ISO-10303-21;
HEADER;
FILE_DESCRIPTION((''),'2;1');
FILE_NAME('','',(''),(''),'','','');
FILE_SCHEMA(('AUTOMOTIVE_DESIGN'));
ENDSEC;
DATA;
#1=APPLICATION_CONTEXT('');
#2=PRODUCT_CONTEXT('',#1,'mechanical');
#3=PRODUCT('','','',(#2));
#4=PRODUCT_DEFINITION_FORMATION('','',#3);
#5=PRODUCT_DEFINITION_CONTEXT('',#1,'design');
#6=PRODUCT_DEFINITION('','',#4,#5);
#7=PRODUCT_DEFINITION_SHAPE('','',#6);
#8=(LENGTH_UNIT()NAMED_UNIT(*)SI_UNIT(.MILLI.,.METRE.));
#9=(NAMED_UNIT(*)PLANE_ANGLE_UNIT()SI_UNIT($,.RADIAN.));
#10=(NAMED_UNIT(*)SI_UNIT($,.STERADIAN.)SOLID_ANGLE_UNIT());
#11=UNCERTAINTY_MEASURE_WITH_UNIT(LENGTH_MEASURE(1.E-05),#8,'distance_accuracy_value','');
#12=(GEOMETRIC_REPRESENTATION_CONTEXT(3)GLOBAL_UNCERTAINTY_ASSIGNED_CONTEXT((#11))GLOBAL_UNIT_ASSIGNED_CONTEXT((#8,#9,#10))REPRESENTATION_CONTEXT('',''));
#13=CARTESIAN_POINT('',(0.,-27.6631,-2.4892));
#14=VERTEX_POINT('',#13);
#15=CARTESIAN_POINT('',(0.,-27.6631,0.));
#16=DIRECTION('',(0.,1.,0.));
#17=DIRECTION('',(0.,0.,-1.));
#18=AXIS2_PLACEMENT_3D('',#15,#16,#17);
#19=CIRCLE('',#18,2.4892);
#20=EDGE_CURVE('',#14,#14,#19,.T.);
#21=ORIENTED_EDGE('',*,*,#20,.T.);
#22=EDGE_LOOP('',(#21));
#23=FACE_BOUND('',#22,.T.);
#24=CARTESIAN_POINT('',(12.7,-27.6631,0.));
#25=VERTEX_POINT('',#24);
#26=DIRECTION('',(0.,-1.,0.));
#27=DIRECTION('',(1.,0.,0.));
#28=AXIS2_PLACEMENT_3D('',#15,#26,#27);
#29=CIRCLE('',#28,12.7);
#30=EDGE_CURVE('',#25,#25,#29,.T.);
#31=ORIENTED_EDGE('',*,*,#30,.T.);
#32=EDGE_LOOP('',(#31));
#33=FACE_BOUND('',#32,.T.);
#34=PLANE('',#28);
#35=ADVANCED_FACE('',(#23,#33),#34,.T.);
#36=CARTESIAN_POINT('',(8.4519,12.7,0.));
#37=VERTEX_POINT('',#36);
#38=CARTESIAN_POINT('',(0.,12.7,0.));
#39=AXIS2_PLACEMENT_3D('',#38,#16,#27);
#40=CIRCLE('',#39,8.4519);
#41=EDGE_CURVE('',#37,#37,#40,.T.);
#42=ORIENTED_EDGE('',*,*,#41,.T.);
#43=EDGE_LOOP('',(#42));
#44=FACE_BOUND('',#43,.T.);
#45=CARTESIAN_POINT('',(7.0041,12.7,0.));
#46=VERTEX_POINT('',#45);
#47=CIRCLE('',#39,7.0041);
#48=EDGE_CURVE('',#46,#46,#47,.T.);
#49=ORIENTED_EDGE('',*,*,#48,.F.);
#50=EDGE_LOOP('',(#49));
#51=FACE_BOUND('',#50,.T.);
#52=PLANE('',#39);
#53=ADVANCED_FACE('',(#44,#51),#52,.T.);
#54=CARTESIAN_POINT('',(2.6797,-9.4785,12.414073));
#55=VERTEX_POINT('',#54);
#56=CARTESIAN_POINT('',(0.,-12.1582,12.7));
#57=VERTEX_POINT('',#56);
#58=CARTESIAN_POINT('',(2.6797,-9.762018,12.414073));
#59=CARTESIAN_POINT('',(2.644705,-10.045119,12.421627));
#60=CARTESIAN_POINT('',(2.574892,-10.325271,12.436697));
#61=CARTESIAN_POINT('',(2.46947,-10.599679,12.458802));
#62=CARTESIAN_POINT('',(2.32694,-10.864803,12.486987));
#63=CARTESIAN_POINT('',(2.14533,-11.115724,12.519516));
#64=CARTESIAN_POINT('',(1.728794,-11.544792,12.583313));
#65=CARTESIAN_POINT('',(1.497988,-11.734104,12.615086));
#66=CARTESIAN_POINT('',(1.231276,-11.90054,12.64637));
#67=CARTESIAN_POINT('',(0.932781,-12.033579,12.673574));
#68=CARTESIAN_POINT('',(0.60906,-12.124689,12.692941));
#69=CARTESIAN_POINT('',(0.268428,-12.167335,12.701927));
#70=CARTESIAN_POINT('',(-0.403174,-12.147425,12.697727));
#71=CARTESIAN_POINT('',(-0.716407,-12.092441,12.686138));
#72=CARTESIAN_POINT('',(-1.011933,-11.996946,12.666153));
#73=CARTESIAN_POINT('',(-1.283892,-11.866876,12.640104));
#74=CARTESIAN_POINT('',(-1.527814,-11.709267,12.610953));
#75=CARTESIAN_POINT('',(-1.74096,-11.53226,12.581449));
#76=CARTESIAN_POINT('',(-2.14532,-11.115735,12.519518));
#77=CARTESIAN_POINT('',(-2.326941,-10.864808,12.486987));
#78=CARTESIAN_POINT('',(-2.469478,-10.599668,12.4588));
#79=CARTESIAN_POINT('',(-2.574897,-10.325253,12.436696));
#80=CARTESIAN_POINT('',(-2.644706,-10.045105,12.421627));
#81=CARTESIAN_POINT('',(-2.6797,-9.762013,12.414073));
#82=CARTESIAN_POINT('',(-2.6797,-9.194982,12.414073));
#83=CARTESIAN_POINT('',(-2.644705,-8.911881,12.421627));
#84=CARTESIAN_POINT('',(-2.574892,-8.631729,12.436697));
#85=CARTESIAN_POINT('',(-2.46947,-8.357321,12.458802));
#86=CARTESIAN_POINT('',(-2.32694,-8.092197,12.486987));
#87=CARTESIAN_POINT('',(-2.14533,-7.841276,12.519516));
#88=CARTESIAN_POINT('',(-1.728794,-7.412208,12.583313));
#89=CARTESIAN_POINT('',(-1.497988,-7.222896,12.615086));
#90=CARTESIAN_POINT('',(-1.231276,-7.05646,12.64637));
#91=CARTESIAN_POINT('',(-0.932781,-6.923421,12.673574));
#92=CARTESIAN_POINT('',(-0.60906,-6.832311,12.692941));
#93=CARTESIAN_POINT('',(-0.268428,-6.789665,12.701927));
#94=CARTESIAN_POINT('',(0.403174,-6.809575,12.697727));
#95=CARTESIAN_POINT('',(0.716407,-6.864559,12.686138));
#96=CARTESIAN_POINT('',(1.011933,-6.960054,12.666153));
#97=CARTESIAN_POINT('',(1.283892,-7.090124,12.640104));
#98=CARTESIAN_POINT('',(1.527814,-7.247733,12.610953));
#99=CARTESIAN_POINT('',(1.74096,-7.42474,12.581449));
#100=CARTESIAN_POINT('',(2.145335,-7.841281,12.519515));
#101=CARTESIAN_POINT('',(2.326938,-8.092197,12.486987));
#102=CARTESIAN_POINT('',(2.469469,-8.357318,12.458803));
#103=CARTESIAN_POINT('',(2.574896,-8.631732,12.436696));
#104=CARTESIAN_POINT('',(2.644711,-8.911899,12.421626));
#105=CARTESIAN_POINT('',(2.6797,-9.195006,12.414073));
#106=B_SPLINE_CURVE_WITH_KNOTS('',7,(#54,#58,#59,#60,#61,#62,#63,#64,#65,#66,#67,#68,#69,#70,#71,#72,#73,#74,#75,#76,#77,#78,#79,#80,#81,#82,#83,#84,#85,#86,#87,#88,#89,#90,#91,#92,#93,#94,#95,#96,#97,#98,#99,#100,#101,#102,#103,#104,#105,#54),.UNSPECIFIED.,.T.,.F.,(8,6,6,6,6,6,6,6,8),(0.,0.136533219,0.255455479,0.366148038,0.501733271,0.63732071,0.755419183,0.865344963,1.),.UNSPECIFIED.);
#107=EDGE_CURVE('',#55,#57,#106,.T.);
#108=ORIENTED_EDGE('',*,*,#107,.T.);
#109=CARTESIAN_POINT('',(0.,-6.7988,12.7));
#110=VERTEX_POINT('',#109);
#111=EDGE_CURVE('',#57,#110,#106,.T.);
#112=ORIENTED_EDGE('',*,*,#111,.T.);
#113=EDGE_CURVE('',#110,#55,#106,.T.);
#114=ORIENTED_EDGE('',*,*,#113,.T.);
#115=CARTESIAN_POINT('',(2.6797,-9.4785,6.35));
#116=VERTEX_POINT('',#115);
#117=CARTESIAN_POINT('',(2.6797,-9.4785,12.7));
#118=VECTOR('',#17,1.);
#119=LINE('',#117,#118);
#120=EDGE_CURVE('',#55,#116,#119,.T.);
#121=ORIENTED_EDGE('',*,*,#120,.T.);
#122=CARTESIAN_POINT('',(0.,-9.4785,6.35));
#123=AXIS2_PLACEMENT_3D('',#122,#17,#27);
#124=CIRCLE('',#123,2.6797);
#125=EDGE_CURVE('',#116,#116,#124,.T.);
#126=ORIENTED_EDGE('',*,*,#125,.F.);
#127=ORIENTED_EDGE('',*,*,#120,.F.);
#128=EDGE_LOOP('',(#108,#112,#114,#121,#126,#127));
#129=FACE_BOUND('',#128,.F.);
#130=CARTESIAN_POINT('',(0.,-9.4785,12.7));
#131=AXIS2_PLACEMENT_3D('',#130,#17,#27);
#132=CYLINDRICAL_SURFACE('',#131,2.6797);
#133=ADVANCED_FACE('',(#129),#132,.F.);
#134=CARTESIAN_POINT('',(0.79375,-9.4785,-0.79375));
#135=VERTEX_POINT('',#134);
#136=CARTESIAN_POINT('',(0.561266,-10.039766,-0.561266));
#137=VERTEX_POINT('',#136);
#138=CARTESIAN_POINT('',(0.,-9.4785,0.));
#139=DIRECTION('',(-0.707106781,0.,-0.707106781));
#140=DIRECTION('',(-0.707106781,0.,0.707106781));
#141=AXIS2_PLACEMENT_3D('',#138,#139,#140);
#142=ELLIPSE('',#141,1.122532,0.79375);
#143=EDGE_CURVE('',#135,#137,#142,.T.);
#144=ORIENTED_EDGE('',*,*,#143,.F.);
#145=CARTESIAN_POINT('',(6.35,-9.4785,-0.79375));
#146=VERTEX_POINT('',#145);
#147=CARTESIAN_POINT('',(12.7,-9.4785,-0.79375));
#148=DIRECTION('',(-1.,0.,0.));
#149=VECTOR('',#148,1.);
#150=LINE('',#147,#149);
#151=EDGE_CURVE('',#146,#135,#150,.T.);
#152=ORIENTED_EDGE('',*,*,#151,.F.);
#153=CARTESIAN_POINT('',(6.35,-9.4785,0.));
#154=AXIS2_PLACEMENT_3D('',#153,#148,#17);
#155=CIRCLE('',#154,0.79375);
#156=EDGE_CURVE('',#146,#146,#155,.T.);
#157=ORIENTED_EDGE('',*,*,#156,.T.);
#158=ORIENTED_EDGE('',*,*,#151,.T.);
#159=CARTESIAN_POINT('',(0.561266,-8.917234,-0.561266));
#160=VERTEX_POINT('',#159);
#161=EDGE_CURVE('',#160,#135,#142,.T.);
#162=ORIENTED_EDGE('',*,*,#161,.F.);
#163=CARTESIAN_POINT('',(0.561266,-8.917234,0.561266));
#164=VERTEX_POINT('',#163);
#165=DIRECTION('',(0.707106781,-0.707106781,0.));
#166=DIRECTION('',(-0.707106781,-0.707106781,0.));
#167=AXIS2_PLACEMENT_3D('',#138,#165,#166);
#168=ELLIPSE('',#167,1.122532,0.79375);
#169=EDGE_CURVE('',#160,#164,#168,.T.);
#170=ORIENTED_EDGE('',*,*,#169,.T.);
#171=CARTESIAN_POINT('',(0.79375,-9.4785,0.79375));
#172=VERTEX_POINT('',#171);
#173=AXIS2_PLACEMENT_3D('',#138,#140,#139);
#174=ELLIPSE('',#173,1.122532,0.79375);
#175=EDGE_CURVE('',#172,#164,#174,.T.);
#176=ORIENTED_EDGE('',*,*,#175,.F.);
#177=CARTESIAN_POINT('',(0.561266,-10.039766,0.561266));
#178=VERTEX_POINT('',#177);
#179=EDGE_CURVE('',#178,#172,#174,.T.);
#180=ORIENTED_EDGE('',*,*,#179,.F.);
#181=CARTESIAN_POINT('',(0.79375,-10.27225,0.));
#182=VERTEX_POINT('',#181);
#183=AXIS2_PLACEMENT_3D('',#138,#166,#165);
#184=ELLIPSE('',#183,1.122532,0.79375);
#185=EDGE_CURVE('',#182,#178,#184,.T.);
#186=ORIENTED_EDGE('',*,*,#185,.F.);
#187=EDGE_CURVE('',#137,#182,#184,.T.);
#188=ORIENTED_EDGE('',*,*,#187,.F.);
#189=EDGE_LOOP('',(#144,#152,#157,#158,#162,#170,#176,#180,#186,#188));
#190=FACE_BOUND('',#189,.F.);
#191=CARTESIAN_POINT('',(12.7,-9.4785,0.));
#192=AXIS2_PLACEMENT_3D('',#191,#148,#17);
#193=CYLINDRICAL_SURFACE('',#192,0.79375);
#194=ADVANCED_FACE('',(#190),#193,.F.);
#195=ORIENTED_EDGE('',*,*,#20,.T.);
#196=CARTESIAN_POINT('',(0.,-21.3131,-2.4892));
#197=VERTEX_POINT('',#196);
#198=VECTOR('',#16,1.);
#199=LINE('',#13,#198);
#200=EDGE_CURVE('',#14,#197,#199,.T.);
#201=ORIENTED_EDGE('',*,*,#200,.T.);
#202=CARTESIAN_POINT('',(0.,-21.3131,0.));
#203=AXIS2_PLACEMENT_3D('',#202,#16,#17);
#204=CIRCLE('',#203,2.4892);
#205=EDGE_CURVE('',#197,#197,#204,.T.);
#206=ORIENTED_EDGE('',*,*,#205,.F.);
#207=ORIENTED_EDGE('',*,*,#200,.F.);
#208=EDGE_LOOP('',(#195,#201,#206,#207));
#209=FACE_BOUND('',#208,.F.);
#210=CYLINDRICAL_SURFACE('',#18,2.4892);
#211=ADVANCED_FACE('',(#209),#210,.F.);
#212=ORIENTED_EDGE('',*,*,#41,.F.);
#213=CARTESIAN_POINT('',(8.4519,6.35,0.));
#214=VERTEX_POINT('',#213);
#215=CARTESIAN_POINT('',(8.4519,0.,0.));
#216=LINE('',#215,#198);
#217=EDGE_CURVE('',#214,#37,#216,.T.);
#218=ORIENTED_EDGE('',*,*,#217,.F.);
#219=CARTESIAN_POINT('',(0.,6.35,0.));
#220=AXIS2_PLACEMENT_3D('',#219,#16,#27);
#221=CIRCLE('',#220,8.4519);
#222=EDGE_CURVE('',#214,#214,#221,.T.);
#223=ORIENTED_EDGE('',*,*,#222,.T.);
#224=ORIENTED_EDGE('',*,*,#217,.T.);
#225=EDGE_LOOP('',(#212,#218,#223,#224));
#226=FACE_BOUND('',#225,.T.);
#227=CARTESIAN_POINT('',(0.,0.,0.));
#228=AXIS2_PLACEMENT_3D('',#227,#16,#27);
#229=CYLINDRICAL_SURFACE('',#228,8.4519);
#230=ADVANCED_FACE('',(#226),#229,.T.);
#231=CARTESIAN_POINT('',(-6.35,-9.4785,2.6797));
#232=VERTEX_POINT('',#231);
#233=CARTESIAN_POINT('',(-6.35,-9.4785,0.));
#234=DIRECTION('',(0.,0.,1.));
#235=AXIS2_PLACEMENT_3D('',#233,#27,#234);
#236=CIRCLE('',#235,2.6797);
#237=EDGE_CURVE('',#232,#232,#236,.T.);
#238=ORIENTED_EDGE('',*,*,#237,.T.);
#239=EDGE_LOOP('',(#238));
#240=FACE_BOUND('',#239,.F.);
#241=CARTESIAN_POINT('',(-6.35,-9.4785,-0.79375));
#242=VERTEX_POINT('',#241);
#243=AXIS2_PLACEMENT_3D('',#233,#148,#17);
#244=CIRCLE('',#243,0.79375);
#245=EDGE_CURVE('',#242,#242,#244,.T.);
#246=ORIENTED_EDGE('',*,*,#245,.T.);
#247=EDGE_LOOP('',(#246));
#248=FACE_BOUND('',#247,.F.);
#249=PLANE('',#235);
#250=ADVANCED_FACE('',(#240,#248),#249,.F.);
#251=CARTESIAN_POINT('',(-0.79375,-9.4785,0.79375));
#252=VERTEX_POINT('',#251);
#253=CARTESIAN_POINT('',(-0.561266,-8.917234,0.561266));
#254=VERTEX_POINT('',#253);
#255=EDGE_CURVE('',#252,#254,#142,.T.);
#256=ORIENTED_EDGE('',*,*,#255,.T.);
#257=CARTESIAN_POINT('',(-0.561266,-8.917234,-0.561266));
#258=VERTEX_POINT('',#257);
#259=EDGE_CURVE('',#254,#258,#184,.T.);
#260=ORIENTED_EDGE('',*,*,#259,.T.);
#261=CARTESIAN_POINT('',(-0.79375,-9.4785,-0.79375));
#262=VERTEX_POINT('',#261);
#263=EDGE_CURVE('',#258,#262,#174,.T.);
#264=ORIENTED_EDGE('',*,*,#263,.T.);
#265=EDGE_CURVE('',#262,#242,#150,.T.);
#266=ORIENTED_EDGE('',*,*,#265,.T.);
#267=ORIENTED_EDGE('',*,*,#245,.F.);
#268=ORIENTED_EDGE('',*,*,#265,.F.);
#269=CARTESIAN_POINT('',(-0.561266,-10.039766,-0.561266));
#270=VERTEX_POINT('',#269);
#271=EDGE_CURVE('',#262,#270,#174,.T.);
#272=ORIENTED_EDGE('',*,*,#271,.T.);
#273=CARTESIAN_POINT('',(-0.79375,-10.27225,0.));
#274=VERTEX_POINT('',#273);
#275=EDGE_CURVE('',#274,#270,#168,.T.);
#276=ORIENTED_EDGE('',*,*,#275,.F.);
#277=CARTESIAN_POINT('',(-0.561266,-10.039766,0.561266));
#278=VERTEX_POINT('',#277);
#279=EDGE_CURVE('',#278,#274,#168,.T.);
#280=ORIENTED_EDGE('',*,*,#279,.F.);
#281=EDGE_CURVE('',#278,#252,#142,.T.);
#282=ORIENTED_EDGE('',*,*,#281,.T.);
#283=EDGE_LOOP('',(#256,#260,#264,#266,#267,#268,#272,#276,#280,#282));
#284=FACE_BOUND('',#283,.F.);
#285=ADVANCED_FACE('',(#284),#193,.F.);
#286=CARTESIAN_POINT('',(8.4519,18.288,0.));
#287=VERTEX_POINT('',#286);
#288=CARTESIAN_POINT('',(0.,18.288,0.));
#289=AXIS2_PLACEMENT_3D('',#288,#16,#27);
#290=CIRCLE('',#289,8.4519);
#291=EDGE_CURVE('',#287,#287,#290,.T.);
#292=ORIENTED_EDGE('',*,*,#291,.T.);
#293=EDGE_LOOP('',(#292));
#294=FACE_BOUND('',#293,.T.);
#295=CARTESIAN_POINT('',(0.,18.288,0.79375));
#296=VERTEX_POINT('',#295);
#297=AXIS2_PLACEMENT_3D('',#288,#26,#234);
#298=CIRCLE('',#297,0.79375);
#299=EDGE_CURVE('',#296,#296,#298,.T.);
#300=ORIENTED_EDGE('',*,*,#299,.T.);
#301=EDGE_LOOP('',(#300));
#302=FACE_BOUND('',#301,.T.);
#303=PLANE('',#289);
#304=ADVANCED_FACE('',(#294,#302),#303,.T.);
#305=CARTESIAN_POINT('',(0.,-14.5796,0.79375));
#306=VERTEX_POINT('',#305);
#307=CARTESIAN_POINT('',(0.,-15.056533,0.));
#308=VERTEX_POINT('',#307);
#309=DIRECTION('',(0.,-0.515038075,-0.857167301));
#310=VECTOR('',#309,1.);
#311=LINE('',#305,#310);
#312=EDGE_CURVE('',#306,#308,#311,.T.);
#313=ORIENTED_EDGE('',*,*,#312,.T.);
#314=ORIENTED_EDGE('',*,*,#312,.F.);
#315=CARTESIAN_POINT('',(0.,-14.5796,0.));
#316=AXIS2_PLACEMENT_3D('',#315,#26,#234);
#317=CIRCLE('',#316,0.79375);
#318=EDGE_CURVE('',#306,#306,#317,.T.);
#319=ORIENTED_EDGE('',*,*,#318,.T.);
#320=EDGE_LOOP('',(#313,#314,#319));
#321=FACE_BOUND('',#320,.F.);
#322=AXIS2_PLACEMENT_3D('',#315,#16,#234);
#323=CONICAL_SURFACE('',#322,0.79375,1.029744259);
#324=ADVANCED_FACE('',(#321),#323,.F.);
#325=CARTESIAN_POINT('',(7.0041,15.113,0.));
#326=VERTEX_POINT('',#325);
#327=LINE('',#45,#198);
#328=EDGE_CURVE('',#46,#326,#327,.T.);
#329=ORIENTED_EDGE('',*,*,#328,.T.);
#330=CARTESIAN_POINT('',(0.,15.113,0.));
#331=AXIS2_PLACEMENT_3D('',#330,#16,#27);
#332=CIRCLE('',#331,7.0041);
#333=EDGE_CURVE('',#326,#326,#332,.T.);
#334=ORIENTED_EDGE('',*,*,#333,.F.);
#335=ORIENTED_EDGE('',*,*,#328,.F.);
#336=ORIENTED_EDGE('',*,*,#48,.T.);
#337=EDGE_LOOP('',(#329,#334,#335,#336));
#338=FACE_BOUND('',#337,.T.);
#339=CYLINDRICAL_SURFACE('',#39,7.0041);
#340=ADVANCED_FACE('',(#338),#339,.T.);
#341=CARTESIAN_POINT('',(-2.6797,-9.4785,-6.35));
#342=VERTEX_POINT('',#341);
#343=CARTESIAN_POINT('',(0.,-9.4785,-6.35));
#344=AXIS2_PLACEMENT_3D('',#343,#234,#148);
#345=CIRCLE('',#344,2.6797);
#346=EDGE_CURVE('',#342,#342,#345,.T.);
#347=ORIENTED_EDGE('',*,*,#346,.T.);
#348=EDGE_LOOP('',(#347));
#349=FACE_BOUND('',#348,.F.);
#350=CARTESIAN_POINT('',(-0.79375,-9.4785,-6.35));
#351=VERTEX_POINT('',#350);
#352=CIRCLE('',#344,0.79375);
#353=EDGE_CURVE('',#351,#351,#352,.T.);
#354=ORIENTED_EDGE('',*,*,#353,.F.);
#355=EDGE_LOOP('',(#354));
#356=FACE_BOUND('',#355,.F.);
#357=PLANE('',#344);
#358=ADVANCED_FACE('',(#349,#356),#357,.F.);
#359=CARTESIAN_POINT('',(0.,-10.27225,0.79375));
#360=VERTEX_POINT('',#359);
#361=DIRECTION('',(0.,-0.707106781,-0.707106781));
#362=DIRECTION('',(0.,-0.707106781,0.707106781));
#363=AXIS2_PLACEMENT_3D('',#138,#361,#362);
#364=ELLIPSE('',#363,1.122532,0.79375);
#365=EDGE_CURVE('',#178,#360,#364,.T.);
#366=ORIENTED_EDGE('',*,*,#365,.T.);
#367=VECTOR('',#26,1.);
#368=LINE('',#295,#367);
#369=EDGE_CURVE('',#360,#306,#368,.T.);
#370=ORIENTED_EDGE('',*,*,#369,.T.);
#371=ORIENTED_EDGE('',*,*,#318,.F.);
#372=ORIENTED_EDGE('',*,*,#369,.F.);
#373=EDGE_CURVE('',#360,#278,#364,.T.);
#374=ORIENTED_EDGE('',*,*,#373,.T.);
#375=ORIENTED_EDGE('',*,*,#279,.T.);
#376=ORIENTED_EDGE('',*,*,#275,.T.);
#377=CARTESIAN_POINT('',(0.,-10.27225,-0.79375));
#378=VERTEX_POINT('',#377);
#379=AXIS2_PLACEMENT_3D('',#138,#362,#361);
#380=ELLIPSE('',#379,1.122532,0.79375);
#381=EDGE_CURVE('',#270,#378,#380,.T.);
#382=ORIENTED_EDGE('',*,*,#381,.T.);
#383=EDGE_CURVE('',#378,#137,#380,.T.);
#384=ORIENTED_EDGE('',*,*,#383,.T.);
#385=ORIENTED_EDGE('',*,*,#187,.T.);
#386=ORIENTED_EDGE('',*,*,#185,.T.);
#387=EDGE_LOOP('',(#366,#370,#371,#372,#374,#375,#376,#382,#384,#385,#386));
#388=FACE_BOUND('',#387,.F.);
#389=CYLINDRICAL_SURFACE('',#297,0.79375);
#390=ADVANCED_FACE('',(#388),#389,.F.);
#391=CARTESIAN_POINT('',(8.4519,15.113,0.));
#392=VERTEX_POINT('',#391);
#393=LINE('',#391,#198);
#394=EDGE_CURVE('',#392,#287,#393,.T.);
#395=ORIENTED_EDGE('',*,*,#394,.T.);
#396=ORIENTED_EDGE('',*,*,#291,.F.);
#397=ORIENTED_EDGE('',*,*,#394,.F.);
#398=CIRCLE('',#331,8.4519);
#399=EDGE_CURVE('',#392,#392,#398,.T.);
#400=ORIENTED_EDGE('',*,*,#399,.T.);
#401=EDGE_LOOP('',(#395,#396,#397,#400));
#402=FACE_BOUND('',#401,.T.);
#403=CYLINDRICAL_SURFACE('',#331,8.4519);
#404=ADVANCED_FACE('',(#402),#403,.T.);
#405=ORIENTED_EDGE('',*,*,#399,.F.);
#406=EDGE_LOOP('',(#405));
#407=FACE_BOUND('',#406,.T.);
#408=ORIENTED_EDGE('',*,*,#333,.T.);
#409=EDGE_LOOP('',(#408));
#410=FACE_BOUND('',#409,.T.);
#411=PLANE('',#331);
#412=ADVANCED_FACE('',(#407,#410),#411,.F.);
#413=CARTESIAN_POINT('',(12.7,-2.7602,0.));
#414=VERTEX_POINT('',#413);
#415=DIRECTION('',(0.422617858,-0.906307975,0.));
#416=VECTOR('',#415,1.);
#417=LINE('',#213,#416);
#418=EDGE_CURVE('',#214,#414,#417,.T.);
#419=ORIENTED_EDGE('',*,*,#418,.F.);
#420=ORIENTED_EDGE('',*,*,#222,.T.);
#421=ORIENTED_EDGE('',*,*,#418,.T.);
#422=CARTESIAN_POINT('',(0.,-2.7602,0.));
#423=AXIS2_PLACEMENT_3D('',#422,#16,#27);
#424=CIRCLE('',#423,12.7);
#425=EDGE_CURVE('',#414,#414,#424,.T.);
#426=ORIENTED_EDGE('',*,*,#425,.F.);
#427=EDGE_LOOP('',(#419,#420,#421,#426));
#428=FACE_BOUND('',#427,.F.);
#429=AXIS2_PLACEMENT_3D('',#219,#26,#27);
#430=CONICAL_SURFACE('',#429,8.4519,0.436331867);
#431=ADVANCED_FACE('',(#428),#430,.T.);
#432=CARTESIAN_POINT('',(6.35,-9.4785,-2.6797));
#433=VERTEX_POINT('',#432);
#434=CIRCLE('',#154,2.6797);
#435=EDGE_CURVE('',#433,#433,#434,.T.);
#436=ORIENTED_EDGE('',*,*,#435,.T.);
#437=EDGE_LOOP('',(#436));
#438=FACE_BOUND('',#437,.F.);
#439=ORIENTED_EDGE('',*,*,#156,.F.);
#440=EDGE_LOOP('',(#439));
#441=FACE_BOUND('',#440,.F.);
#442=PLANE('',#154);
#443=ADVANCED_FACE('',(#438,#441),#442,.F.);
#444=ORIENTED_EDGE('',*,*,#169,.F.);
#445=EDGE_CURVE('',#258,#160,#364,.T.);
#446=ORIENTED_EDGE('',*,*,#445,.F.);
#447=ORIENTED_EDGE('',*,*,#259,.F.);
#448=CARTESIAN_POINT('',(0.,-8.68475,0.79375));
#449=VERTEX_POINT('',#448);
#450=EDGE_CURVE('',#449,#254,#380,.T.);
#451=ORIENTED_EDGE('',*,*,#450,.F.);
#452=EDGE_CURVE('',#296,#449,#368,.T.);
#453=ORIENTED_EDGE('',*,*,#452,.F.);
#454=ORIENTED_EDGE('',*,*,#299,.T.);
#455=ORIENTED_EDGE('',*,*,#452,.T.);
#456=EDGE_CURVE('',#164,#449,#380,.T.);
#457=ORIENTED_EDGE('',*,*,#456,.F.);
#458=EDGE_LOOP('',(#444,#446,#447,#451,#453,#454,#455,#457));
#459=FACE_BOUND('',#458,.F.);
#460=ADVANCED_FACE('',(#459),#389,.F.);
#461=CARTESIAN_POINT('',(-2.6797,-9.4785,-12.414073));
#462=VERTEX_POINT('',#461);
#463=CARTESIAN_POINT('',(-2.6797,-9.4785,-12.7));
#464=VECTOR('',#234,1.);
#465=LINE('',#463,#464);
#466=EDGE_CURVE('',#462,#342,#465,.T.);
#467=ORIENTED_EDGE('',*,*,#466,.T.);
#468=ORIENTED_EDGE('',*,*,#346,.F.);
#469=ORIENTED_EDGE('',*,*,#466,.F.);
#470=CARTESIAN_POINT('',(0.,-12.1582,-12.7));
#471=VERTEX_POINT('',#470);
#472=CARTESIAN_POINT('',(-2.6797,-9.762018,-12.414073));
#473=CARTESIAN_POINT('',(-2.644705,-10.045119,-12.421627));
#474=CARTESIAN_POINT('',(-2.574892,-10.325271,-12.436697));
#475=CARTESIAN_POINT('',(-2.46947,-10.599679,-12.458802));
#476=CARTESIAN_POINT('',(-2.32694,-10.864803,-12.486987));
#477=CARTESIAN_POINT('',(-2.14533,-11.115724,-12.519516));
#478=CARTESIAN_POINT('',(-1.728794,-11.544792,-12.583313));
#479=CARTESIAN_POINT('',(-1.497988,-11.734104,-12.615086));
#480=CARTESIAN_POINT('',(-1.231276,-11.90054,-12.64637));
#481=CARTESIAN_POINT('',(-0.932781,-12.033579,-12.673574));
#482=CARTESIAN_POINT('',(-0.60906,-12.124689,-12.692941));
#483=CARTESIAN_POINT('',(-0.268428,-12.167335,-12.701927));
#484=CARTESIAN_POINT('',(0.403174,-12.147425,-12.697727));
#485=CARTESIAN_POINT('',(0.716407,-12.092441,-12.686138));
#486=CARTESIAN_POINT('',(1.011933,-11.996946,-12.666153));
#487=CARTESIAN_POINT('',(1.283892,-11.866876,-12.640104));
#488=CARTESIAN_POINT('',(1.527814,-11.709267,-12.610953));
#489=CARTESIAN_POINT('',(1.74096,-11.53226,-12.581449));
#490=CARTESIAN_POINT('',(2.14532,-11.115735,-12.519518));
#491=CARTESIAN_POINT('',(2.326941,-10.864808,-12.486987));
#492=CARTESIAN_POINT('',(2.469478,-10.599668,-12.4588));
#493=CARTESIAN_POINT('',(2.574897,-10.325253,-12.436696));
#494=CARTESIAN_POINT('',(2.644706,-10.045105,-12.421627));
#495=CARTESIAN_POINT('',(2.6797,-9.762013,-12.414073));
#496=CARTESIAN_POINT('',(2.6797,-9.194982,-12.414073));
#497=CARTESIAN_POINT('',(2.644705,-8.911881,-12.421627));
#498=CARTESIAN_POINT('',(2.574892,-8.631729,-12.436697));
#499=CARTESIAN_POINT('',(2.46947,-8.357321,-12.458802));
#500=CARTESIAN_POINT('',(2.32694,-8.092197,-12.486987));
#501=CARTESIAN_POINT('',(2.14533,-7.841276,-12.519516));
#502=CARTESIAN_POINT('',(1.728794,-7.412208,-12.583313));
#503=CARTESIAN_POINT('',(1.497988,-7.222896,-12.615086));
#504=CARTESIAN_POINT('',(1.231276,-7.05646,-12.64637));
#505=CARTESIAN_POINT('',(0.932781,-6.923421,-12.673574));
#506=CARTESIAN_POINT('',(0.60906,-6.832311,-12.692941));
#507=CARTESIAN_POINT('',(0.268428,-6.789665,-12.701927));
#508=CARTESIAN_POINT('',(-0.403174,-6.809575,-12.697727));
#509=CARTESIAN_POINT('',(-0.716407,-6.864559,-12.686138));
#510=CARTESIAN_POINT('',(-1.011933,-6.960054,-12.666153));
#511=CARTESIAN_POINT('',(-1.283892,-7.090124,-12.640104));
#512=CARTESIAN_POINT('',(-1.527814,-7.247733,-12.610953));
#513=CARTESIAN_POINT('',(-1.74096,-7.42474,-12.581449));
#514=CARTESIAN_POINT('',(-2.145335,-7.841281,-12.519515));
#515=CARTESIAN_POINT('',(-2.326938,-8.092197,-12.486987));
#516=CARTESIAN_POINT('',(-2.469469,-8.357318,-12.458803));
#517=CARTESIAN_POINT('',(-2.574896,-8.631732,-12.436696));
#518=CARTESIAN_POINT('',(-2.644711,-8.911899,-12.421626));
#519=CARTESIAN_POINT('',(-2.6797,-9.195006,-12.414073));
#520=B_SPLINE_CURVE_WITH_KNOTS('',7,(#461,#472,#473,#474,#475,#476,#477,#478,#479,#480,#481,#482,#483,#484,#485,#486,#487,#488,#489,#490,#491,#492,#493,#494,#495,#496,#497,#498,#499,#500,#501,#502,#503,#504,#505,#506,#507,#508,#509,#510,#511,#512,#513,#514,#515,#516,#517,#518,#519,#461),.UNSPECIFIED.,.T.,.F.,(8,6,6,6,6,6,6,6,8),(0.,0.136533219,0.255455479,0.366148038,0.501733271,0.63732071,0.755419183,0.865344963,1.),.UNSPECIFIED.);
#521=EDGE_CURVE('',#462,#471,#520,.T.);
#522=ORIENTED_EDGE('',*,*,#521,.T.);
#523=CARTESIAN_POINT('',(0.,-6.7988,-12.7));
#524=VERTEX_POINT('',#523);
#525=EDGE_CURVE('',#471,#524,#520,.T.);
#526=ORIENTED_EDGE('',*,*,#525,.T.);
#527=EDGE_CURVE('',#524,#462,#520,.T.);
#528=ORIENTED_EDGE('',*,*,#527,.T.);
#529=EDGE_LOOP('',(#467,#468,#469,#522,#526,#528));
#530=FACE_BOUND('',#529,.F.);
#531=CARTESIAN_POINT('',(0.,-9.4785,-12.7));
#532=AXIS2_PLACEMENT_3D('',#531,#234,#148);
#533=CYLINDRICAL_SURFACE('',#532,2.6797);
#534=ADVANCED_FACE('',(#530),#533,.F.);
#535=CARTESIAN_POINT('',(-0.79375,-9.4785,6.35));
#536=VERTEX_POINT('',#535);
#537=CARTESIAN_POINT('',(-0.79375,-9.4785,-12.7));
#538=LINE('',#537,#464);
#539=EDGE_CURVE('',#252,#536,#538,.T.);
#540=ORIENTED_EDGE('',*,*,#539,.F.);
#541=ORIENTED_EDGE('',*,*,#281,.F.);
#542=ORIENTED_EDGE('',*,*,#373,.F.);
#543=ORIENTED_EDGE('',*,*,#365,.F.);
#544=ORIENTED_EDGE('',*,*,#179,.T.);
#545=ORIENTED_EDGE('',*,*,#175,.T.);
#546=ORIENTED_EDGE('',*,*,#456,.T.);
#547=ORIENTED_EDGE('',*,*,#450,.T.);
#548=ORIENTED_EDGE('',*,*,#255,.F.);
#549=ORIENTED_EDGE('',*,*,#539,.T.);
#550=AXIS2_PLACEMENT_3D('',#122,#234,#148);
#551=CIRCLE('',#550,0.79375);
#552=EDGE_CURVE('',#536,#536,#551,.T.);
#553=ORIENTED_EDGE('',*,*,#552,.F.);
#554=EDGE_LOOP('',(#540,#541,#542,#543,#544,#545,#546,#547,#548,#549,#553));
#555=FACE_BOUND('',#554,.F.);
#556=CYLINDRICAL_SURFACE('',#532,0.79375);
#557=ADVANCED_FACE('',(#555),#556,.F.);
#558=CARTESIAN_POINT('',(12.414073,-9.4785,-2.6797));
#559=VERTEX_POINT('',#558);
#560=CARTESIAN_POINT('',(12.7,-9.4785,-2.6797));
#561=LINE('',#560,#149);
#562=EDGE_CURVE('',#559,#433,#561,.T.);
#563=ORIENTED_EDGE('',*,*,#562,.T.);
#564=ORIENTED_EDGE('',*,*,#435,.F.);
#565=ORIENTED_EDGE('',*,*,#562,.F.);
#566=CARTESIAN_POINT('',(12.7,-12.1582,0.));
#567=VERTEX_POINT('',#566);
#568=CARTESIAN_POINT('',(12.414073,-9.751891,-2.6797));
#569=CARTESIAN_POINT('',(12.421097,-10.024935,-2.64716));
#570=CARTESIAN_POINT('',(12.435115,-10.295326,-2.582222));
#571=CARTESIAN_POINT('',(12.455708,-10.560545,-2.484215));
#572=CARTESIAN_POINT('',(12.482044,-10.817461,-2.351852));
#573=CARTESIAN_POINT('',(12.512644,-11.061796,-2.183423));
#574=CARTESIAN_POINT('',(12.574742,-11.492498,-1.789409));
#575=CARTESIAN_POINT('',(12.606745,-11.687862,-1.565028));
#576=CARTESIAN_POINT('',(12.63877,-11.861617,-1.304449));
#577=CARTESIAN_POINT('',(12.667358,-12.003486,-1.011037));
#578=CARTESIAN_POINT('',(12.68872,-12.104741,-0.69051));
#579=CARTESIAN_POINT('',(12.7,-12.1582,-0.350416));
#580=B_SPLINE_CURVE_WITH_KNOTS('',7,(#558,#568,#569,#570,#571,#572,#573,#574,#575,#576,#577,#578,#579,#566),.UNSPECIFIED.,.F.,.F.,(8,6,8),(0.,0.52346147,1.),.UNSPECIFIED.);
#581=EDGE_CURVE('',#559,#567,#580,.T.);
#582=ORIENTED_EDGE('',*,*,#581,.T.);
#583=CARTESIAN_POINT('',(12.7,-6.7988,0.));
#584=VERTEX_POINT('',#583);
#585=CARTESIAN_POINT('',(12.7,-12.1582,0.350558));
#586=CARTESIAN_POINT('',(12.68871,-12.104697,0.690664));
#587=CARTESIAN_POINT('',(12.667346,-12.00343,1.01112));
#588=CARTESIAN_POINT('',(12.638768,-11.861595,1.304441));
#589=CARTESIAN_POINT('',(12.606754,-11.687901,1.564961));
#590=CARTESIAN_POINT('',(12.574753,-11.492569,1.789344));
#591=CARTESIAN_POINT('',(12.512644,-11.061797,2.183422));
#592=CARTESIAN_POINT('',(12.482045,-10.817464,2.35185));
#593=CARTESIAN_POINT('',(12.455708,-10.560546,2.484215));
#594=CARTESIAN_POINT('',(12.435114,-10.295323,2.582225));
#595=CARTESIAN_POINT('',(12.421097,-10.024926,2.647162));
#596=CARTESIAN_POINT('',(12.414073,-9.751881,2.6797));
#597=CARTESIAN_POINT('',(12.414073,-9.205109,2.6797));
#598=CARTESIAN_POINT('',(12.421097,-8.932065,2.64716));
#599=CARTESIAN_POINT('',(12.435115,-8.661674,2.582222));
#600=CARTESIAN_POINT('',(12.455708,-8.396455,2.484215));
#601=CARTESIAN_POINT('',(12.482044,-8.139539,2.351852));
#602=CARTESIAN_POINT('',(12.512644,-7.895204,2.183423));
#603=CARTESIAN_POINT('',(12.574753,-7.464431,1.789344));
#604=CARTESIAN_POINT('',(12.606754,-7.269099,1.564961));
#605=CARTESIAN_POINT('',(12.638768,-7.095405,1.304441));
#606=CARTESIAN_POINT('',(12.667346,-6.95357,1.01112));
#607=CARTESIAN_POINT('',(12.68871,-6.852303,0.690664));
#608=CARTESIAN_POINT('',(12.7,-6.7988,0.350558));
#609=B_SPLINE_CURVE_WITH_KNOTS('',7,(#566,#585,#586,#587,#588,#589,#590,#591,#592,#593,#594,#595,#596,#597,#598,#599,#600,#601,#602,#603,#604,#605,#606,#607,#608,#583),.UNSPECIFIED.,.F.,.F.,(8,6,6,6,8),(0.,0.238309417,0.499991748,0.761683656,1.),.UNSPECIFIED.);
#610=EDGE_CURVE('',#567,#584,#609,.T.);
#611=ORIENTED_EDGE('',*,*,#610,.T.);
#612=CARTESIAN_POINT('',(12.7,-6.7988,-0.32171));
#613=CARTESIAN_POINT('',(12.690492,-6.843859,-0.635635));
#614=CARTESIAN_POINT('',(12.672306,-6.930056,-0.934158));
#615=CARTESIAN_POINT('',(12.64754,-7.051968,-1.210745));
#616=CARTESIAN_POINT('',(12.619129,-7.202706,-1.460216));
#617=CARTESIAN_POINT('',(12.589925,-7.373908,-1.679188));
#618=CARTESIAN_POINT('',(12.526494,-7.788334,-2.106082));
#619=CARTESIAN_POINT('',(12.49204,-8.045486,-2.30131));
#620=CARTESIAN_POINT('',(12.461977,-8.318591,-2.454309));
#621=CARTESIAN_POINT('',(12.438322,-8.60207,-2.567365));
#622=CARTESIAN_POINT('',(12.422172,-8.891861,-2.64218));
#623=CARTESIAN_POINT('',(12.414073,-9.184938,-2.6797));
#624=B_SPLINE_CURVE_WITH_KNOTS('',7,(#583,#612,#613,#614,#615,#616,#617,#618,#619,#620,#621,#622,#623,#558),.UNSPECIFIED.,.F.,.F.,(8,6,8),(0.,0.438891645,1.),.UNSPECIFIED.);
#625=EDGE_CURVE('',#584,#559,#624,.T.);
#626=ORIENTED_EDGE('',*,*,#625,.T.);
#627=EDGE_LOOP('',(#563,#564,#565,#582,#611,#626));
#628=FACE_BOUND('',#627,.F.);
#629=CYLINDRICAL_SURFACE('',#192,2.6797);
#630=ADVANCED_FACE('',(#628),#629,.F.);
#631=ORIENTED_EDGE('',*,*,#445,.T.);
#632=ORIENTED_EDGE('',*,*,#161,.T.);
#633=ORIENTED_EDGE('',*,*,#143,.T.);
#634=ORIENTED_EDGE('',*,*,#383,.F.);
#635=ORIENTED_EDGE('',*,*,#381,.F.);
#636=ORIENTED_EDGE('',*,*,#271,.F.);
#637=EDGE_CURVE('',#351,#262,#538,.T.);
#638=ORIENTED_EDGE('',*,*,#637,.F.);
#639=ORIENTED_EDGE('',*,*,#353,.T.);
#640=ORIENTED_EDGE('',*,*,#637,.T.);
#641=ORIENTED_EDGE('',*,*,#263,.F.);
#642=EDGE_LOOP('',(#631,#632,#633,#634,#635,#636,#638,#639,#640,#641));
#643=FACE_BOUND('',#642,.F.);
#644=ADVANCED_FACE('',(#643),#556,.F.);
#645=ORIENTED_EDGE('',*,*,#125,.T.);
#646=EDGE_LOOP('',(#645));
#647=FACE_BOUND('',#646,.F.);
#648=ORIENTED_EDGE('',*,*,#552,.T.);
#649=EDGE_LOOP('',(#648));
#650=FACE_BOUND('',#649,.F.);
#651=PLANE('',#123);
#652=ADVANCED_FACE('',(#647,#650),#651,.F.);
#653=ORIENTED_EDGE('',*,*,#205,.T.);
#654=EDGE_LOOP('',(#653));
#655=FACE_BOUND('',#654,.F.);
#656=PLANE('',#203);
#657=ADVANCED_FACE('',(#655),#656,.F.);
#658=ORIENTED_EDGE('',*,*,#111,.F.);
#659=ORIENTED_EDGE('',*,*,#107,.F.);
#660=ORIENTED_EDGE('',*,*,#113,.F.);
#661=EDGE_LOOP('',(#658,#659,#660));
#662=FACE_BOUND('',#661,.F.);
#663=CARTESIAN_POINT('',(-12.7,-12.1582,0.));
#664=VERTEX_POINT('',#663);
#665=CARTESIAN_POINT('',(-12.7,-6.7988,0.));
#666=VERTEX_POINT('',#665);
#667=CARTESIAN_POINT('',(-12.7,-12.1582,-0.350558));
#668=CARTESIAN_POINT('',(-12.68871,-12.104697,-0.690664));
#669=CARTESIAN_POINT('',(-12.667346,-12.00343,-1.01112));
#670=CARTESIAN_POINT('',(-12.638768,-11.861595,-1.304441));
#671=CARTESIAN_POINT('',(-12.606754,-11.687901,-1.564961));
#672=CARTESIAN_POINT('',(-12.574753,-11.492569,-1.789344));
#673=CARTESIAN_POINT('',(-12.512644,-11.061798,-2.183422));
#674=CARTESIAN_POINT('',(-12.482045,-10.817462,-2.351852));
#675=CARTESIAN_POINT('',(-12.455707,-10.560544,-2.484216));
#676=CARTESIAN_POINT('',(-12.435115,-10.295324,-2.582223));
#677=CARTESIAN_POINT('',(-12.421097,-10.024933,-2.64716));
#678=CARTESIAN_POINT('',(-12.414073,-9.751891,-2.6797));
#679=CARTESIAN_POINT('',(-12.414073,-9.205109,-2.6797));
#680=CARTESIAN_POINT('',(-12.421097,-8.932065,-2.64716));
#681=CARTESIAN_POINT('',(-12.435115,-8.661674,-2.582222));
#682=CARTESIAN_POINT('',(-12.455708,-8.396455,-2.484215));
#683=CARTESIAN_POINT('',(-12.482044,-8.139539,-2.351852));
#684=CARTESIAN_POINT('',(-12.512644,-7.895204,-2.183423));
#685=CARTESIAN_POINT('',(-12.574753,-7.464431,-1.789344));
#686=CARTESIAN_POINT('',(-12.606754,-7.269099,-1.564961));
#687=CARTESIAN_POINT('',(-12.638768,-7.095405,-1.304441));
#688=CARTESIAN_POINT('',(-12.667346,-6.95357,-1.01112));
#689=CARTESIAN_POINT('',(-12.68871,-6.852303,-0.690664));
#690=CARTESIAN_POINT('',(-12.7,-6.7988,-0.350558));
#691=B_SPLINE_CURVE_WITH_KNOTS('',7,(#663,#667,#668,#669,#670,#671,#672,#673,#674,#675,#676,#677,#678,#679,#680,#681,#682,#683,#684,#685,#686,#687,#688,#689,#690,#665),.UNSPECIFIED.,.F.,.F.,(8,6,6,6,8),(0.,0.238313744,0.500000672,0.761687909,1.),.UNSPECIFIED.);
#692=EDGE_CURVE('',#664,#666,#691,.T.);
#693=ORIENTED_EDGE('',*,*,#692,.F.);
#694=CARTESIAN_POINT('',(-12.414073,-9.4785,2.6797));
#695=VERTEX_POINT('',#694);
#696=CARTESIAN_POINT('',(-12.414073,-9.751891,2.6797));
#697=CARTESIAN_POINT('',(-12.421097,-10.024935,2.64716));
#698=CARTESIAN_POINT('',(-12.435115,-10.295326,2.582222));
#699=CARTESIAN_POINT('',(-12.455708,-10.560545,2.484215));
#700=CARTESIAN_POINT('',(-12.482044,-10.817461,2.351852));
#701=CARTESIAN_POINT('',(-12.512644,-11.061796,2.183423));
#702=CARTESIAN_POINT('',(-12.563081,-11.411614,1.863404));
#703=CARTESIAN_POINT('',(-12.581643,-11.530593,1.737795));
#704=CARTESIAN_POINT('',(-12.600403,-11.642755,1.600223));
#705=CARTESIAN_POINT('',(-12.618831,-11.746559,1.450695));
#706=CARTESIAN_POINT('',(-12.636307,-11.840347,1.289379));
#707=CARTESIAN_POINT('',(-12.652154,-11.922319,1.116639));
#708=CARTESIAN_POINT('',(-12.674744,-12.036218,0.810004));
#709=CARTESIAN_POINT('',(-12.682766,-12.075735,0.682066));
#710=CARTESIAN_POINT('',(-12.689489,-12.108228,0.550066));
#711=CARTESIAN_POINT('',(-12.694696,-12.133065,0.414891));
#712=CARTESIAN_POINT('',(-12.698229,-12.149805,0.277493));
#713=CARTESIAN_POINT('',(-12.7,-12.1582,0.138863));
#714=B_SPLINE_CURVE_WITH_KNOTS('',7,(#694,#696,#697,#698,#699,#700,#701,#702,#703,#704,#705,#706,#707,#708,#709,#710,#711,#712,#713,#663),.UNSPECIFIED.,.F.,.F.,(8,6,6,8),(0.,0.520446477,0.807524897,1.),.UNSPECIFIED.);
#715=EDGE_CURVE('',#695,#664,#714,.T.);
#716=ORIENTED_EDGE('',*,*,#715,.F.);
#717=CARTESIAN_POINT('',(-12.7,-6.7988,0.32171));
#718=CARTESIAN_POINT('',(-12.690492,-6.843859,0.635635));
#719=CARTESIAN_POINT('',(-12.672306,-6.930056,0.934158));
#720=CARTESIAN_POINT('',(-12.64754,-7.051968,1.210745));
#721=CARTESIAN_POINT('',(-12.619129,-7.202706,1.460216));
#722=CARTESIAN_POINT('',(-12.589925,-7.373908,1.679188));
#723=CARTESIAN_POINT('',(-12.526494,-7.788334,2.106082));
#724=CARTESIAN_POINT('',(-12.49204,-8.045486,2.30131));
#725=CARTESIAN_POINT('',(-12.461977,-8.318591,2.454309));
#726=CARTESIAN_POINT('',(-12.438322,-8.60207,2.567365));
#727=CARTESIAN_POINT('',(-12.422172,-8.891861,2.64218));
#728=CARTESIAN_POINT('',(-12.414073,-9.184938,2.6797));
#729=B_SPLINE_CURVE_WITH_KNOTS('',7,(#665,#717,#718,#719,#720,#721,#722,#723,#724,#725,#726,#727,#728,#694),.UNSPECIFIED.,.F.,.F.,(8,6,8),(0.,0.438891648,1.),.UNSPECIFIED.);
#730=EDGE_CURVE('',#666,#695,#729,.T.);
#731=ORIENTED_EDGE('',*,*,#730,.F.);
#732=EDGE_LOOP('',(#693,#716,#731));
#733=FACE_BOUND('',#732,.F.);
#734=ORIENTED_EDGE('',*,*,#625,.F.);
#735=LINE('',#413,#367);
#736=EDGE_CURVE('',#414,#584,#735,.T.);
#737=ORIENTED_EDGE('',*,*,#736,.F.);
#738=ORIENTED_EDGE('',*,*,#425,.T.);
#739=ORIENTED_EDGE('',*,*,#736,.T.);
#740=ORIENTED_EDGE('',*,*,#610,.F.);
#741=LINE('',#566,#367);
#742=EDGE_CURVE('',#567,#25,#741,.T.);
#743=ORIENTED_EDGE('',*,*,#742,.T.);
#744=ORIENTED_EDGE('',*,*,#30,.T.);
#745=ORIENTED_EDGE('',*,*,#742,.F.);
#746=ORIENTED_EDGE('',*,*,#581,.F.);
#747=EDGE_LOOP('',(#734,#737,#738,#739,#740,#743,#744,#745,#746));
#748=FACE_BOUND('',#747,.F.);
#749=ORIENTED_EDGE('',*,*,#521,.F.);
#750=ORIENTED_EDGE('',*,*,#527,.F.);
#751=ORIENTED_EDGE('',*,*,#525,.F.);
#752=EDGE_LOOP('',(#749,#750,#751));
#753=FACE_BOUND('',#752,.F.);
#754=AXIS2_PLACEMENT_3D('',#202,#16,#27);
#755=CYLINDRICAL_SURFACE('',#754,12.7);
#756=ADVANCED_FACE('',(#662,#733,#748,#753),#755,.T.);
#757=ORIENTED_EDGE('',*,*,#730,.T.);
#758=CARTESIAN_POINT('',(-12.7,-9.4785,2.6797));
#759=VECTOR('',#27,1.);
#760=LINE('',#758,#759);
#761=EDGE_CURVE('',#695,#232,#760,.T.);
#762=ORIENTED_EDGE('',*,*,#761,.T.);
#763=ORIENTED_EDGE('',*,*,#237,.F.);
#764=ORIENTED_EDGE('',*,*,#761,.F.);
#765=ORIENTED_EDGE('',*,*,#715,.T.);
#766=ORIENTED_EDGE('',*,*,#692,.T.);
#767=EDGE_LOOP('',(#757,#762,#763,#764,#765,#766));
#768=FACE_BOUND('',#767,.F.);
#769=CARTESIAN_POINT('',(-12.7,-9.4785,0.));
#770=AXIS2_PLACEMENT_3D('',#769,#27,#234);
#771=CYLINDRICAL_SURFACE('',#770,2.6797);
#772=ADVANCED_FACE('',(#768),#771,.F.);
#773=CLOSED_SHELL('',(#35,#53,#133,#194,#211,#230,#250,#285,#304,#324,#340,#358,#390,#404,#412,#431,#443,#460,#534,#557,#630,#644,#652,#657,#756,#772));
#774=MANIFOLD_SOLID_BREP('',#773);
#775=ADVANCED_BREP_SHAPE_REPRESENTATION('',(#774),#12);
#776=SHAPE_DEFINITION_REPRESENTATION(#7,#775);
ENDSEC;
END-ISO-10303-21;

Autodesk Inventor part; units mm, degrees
ref_plane "YZ Plane" through (0, 0, 0) normal (1, 0, 0) x (0, 1, 0)
ref_plane "XZ Plane" through (0, 0, 0) normal (0, 1, 0) x (-1, 0, 0)
ref_plane "XY Plane" through (0, 0, 0) normal (0, 0, 1) x (1, 0, 0)
sketch "Sketch1" plane through (0, 0, 0) normal (0, 0, 1) x (1, 0, 0)
  line L0 (0, 0) -> (8.4519, 0)
  line L1 (8.4519, 0) -> (8.4519, 12.7)
  line L2 (8.4519, 12.7) -> (7.0041, 12.7)
  line L3 (7.0041, 12.7) -> (7.0041, 15.113)
  line L4 (7.0041, 15.113) -> (8.4519, 15.113)
  line L5 (8.4519, 15.113) -> (8.4519, 18.288)
  line L6 (8.4519, 18.288) -> (0, 18.288)
  line L7 (0, 18.288) -> (0, 0)
  line L8 (0, -29.2334) -> (0, 26.2082) projected
  line L9 (8.4519, 0) -> (8.4519, 6.35)
  line L10 (8.4519, 0) -> (8.4519, 6.35)
  line L11 (8.4519, 6.35) -> (15.4293, -8.6131)
  line L12 (8.4519, 6.35) -> (24.9619, 6.35) construction
  line L13 (15.4293, -8.6131) -> (12.2543, -8.6131)
  line L14 (12.2543, -8.6131) -> (8.4519, 0)
  line L15 (15.4293, -8.6131) -> (0, -8.6131)
  line L16 (0, 0) -> (8.4519, 0)
  line L17 (0, -8.6131) -> (12.7, -8.6131)
  line L18 (12.7, -8.6131) -> (12.7, -21.3131)
  line L19 (12.7, -21.3131) -> (0, -21.3131)
  line L20 (0, -21.3131) -> (0, -8.6131)
  line L21 (12.7, -8.6131) -> (12.7, -2.7602)
  point P0 (12.2543, -8.6131)
  dimension "d0" = 8.4519
  dimension "d1" = 12.7
  dimension "d2" = 90
  dimension "d3" = 1.4478
  dimension "d4" = 2.413
  dimension "d5" = 3.175
  dimension "d23" = 16.51
  dimension "d24" = 65
  dimension "d25" = 3.175
  dimension "d83" = 12.7
  dimension "d84" = 12.7
revolve "Revolution1" add sketch "Sketch1" angle 360 about axis through (0, -10, 0) along (0, 1, 0) contours L7 L6 L5 L4 L3 L2 L1 L0 | L0 L14 L15 L8 | L1 L11 L21 L13 L14 | L15 L13 L18 L19 L8
sketch "Sketch12" plane through (0, 18.288, 0) normal (0, 1, 0) x (1, 0, 0)
  point P0 (0, 0)
  point P1 (0, 0)
hole "Hole4" at (0, 18.288, 0) direction (0, -1, 0) diameter 1.5875 depth 32.8676 tip angle 118
sketch "Sketch13" plane through (0, -21.3131, 0) normal (0, -1, 0) x (1, 0, 0)
  circle A0 centre (0, 0) radius 12.7 projected
  point P0 (12.7, 0)
  point P1 (0, -12.7)
  point P2 (-12.7, 0)
  point P3 (0, 12.7)
ref_plane "Work Plane1" through (12.7, -21.3131, 0) normal (1, 0, 0) x (0, 1, 0)
sketch "Sketch14" plane through (12.7, -21.3131, 0) normal (1, 0, 0) x (0, 1, 0)
  line L0 (0, 12.7) -> (0, -12.7) projected
  line L1 (0, 0) -> (18.553, 0)
  line L2 (18.553, 12.7) -> (18.553, -12.7) projected
  line L3 (18.553, 0) -> (11.8347, 0)
  point P0 (21.3131, 0)
  dimension "d92" = 6.7183
hole "Hole5" at (12.7, -9.4785, 0) direction (-1, 0, 0) diameter 1.5875 end through all
hole "Hole6" at (12.7, -9.4785, 0) direction (-1, 0, 0) diameter 5.3594 depth 6.35 thread size "1/4-28 UNF" class "2B" standard "ANSI Unified Screw Threads"
extrude "Extrusion3" add sketch "Sketch13" along normal blind 6.35
sketch "Sketch16" plane through (0, -27.6631, 0) normal (0, -1, 0) x (1, 0, 0)
  point P0 (0, 0)
hole "Hole8" at (0, -27.6631, 0) direction (0, 1, 0) diameter 4.9784 depth 6.35 thread size "1/4-20 UNC" class "2B" standard "ANSI Unified Screw Threads"
pattern_circular "Circular Pattern5" count 4 over 360 about axis through (0, -10, 0) along (0, 1, 0) of "Hole5", "Hole6"
equation "\"d54\" = 55deg"
equation "\"Sketch7_Pitch\" = 0.90714"
equation "\"d72\" = 55deg"
equation "\"Sketch9_Pitch\" = 1.27"
equation "\"d137\" = 55deg"
equation "\"Sketch17_Pitch\" = 1.27"
equation "\"d155\" = 55deg"
equation "\"Sketch19_Pitch\" = 0.90714"
equation "\"d173\" = 55deg"
equation "\"Sketch21_Pitch\" = 0.90714"
equation "\"d191\" = 55deg"
equation "\"Sketch23_Pitch\" = 1.27"
equation "\"d221\" = 55deg"
equation "\"Sketch25_Pitch\" = 0.90714"
equation "\"d239\" = 55deg"
equation "\"Sketch27_Pitch\" = 1.27"
properties part number "piston badflowchannel-1-16in-thread"
